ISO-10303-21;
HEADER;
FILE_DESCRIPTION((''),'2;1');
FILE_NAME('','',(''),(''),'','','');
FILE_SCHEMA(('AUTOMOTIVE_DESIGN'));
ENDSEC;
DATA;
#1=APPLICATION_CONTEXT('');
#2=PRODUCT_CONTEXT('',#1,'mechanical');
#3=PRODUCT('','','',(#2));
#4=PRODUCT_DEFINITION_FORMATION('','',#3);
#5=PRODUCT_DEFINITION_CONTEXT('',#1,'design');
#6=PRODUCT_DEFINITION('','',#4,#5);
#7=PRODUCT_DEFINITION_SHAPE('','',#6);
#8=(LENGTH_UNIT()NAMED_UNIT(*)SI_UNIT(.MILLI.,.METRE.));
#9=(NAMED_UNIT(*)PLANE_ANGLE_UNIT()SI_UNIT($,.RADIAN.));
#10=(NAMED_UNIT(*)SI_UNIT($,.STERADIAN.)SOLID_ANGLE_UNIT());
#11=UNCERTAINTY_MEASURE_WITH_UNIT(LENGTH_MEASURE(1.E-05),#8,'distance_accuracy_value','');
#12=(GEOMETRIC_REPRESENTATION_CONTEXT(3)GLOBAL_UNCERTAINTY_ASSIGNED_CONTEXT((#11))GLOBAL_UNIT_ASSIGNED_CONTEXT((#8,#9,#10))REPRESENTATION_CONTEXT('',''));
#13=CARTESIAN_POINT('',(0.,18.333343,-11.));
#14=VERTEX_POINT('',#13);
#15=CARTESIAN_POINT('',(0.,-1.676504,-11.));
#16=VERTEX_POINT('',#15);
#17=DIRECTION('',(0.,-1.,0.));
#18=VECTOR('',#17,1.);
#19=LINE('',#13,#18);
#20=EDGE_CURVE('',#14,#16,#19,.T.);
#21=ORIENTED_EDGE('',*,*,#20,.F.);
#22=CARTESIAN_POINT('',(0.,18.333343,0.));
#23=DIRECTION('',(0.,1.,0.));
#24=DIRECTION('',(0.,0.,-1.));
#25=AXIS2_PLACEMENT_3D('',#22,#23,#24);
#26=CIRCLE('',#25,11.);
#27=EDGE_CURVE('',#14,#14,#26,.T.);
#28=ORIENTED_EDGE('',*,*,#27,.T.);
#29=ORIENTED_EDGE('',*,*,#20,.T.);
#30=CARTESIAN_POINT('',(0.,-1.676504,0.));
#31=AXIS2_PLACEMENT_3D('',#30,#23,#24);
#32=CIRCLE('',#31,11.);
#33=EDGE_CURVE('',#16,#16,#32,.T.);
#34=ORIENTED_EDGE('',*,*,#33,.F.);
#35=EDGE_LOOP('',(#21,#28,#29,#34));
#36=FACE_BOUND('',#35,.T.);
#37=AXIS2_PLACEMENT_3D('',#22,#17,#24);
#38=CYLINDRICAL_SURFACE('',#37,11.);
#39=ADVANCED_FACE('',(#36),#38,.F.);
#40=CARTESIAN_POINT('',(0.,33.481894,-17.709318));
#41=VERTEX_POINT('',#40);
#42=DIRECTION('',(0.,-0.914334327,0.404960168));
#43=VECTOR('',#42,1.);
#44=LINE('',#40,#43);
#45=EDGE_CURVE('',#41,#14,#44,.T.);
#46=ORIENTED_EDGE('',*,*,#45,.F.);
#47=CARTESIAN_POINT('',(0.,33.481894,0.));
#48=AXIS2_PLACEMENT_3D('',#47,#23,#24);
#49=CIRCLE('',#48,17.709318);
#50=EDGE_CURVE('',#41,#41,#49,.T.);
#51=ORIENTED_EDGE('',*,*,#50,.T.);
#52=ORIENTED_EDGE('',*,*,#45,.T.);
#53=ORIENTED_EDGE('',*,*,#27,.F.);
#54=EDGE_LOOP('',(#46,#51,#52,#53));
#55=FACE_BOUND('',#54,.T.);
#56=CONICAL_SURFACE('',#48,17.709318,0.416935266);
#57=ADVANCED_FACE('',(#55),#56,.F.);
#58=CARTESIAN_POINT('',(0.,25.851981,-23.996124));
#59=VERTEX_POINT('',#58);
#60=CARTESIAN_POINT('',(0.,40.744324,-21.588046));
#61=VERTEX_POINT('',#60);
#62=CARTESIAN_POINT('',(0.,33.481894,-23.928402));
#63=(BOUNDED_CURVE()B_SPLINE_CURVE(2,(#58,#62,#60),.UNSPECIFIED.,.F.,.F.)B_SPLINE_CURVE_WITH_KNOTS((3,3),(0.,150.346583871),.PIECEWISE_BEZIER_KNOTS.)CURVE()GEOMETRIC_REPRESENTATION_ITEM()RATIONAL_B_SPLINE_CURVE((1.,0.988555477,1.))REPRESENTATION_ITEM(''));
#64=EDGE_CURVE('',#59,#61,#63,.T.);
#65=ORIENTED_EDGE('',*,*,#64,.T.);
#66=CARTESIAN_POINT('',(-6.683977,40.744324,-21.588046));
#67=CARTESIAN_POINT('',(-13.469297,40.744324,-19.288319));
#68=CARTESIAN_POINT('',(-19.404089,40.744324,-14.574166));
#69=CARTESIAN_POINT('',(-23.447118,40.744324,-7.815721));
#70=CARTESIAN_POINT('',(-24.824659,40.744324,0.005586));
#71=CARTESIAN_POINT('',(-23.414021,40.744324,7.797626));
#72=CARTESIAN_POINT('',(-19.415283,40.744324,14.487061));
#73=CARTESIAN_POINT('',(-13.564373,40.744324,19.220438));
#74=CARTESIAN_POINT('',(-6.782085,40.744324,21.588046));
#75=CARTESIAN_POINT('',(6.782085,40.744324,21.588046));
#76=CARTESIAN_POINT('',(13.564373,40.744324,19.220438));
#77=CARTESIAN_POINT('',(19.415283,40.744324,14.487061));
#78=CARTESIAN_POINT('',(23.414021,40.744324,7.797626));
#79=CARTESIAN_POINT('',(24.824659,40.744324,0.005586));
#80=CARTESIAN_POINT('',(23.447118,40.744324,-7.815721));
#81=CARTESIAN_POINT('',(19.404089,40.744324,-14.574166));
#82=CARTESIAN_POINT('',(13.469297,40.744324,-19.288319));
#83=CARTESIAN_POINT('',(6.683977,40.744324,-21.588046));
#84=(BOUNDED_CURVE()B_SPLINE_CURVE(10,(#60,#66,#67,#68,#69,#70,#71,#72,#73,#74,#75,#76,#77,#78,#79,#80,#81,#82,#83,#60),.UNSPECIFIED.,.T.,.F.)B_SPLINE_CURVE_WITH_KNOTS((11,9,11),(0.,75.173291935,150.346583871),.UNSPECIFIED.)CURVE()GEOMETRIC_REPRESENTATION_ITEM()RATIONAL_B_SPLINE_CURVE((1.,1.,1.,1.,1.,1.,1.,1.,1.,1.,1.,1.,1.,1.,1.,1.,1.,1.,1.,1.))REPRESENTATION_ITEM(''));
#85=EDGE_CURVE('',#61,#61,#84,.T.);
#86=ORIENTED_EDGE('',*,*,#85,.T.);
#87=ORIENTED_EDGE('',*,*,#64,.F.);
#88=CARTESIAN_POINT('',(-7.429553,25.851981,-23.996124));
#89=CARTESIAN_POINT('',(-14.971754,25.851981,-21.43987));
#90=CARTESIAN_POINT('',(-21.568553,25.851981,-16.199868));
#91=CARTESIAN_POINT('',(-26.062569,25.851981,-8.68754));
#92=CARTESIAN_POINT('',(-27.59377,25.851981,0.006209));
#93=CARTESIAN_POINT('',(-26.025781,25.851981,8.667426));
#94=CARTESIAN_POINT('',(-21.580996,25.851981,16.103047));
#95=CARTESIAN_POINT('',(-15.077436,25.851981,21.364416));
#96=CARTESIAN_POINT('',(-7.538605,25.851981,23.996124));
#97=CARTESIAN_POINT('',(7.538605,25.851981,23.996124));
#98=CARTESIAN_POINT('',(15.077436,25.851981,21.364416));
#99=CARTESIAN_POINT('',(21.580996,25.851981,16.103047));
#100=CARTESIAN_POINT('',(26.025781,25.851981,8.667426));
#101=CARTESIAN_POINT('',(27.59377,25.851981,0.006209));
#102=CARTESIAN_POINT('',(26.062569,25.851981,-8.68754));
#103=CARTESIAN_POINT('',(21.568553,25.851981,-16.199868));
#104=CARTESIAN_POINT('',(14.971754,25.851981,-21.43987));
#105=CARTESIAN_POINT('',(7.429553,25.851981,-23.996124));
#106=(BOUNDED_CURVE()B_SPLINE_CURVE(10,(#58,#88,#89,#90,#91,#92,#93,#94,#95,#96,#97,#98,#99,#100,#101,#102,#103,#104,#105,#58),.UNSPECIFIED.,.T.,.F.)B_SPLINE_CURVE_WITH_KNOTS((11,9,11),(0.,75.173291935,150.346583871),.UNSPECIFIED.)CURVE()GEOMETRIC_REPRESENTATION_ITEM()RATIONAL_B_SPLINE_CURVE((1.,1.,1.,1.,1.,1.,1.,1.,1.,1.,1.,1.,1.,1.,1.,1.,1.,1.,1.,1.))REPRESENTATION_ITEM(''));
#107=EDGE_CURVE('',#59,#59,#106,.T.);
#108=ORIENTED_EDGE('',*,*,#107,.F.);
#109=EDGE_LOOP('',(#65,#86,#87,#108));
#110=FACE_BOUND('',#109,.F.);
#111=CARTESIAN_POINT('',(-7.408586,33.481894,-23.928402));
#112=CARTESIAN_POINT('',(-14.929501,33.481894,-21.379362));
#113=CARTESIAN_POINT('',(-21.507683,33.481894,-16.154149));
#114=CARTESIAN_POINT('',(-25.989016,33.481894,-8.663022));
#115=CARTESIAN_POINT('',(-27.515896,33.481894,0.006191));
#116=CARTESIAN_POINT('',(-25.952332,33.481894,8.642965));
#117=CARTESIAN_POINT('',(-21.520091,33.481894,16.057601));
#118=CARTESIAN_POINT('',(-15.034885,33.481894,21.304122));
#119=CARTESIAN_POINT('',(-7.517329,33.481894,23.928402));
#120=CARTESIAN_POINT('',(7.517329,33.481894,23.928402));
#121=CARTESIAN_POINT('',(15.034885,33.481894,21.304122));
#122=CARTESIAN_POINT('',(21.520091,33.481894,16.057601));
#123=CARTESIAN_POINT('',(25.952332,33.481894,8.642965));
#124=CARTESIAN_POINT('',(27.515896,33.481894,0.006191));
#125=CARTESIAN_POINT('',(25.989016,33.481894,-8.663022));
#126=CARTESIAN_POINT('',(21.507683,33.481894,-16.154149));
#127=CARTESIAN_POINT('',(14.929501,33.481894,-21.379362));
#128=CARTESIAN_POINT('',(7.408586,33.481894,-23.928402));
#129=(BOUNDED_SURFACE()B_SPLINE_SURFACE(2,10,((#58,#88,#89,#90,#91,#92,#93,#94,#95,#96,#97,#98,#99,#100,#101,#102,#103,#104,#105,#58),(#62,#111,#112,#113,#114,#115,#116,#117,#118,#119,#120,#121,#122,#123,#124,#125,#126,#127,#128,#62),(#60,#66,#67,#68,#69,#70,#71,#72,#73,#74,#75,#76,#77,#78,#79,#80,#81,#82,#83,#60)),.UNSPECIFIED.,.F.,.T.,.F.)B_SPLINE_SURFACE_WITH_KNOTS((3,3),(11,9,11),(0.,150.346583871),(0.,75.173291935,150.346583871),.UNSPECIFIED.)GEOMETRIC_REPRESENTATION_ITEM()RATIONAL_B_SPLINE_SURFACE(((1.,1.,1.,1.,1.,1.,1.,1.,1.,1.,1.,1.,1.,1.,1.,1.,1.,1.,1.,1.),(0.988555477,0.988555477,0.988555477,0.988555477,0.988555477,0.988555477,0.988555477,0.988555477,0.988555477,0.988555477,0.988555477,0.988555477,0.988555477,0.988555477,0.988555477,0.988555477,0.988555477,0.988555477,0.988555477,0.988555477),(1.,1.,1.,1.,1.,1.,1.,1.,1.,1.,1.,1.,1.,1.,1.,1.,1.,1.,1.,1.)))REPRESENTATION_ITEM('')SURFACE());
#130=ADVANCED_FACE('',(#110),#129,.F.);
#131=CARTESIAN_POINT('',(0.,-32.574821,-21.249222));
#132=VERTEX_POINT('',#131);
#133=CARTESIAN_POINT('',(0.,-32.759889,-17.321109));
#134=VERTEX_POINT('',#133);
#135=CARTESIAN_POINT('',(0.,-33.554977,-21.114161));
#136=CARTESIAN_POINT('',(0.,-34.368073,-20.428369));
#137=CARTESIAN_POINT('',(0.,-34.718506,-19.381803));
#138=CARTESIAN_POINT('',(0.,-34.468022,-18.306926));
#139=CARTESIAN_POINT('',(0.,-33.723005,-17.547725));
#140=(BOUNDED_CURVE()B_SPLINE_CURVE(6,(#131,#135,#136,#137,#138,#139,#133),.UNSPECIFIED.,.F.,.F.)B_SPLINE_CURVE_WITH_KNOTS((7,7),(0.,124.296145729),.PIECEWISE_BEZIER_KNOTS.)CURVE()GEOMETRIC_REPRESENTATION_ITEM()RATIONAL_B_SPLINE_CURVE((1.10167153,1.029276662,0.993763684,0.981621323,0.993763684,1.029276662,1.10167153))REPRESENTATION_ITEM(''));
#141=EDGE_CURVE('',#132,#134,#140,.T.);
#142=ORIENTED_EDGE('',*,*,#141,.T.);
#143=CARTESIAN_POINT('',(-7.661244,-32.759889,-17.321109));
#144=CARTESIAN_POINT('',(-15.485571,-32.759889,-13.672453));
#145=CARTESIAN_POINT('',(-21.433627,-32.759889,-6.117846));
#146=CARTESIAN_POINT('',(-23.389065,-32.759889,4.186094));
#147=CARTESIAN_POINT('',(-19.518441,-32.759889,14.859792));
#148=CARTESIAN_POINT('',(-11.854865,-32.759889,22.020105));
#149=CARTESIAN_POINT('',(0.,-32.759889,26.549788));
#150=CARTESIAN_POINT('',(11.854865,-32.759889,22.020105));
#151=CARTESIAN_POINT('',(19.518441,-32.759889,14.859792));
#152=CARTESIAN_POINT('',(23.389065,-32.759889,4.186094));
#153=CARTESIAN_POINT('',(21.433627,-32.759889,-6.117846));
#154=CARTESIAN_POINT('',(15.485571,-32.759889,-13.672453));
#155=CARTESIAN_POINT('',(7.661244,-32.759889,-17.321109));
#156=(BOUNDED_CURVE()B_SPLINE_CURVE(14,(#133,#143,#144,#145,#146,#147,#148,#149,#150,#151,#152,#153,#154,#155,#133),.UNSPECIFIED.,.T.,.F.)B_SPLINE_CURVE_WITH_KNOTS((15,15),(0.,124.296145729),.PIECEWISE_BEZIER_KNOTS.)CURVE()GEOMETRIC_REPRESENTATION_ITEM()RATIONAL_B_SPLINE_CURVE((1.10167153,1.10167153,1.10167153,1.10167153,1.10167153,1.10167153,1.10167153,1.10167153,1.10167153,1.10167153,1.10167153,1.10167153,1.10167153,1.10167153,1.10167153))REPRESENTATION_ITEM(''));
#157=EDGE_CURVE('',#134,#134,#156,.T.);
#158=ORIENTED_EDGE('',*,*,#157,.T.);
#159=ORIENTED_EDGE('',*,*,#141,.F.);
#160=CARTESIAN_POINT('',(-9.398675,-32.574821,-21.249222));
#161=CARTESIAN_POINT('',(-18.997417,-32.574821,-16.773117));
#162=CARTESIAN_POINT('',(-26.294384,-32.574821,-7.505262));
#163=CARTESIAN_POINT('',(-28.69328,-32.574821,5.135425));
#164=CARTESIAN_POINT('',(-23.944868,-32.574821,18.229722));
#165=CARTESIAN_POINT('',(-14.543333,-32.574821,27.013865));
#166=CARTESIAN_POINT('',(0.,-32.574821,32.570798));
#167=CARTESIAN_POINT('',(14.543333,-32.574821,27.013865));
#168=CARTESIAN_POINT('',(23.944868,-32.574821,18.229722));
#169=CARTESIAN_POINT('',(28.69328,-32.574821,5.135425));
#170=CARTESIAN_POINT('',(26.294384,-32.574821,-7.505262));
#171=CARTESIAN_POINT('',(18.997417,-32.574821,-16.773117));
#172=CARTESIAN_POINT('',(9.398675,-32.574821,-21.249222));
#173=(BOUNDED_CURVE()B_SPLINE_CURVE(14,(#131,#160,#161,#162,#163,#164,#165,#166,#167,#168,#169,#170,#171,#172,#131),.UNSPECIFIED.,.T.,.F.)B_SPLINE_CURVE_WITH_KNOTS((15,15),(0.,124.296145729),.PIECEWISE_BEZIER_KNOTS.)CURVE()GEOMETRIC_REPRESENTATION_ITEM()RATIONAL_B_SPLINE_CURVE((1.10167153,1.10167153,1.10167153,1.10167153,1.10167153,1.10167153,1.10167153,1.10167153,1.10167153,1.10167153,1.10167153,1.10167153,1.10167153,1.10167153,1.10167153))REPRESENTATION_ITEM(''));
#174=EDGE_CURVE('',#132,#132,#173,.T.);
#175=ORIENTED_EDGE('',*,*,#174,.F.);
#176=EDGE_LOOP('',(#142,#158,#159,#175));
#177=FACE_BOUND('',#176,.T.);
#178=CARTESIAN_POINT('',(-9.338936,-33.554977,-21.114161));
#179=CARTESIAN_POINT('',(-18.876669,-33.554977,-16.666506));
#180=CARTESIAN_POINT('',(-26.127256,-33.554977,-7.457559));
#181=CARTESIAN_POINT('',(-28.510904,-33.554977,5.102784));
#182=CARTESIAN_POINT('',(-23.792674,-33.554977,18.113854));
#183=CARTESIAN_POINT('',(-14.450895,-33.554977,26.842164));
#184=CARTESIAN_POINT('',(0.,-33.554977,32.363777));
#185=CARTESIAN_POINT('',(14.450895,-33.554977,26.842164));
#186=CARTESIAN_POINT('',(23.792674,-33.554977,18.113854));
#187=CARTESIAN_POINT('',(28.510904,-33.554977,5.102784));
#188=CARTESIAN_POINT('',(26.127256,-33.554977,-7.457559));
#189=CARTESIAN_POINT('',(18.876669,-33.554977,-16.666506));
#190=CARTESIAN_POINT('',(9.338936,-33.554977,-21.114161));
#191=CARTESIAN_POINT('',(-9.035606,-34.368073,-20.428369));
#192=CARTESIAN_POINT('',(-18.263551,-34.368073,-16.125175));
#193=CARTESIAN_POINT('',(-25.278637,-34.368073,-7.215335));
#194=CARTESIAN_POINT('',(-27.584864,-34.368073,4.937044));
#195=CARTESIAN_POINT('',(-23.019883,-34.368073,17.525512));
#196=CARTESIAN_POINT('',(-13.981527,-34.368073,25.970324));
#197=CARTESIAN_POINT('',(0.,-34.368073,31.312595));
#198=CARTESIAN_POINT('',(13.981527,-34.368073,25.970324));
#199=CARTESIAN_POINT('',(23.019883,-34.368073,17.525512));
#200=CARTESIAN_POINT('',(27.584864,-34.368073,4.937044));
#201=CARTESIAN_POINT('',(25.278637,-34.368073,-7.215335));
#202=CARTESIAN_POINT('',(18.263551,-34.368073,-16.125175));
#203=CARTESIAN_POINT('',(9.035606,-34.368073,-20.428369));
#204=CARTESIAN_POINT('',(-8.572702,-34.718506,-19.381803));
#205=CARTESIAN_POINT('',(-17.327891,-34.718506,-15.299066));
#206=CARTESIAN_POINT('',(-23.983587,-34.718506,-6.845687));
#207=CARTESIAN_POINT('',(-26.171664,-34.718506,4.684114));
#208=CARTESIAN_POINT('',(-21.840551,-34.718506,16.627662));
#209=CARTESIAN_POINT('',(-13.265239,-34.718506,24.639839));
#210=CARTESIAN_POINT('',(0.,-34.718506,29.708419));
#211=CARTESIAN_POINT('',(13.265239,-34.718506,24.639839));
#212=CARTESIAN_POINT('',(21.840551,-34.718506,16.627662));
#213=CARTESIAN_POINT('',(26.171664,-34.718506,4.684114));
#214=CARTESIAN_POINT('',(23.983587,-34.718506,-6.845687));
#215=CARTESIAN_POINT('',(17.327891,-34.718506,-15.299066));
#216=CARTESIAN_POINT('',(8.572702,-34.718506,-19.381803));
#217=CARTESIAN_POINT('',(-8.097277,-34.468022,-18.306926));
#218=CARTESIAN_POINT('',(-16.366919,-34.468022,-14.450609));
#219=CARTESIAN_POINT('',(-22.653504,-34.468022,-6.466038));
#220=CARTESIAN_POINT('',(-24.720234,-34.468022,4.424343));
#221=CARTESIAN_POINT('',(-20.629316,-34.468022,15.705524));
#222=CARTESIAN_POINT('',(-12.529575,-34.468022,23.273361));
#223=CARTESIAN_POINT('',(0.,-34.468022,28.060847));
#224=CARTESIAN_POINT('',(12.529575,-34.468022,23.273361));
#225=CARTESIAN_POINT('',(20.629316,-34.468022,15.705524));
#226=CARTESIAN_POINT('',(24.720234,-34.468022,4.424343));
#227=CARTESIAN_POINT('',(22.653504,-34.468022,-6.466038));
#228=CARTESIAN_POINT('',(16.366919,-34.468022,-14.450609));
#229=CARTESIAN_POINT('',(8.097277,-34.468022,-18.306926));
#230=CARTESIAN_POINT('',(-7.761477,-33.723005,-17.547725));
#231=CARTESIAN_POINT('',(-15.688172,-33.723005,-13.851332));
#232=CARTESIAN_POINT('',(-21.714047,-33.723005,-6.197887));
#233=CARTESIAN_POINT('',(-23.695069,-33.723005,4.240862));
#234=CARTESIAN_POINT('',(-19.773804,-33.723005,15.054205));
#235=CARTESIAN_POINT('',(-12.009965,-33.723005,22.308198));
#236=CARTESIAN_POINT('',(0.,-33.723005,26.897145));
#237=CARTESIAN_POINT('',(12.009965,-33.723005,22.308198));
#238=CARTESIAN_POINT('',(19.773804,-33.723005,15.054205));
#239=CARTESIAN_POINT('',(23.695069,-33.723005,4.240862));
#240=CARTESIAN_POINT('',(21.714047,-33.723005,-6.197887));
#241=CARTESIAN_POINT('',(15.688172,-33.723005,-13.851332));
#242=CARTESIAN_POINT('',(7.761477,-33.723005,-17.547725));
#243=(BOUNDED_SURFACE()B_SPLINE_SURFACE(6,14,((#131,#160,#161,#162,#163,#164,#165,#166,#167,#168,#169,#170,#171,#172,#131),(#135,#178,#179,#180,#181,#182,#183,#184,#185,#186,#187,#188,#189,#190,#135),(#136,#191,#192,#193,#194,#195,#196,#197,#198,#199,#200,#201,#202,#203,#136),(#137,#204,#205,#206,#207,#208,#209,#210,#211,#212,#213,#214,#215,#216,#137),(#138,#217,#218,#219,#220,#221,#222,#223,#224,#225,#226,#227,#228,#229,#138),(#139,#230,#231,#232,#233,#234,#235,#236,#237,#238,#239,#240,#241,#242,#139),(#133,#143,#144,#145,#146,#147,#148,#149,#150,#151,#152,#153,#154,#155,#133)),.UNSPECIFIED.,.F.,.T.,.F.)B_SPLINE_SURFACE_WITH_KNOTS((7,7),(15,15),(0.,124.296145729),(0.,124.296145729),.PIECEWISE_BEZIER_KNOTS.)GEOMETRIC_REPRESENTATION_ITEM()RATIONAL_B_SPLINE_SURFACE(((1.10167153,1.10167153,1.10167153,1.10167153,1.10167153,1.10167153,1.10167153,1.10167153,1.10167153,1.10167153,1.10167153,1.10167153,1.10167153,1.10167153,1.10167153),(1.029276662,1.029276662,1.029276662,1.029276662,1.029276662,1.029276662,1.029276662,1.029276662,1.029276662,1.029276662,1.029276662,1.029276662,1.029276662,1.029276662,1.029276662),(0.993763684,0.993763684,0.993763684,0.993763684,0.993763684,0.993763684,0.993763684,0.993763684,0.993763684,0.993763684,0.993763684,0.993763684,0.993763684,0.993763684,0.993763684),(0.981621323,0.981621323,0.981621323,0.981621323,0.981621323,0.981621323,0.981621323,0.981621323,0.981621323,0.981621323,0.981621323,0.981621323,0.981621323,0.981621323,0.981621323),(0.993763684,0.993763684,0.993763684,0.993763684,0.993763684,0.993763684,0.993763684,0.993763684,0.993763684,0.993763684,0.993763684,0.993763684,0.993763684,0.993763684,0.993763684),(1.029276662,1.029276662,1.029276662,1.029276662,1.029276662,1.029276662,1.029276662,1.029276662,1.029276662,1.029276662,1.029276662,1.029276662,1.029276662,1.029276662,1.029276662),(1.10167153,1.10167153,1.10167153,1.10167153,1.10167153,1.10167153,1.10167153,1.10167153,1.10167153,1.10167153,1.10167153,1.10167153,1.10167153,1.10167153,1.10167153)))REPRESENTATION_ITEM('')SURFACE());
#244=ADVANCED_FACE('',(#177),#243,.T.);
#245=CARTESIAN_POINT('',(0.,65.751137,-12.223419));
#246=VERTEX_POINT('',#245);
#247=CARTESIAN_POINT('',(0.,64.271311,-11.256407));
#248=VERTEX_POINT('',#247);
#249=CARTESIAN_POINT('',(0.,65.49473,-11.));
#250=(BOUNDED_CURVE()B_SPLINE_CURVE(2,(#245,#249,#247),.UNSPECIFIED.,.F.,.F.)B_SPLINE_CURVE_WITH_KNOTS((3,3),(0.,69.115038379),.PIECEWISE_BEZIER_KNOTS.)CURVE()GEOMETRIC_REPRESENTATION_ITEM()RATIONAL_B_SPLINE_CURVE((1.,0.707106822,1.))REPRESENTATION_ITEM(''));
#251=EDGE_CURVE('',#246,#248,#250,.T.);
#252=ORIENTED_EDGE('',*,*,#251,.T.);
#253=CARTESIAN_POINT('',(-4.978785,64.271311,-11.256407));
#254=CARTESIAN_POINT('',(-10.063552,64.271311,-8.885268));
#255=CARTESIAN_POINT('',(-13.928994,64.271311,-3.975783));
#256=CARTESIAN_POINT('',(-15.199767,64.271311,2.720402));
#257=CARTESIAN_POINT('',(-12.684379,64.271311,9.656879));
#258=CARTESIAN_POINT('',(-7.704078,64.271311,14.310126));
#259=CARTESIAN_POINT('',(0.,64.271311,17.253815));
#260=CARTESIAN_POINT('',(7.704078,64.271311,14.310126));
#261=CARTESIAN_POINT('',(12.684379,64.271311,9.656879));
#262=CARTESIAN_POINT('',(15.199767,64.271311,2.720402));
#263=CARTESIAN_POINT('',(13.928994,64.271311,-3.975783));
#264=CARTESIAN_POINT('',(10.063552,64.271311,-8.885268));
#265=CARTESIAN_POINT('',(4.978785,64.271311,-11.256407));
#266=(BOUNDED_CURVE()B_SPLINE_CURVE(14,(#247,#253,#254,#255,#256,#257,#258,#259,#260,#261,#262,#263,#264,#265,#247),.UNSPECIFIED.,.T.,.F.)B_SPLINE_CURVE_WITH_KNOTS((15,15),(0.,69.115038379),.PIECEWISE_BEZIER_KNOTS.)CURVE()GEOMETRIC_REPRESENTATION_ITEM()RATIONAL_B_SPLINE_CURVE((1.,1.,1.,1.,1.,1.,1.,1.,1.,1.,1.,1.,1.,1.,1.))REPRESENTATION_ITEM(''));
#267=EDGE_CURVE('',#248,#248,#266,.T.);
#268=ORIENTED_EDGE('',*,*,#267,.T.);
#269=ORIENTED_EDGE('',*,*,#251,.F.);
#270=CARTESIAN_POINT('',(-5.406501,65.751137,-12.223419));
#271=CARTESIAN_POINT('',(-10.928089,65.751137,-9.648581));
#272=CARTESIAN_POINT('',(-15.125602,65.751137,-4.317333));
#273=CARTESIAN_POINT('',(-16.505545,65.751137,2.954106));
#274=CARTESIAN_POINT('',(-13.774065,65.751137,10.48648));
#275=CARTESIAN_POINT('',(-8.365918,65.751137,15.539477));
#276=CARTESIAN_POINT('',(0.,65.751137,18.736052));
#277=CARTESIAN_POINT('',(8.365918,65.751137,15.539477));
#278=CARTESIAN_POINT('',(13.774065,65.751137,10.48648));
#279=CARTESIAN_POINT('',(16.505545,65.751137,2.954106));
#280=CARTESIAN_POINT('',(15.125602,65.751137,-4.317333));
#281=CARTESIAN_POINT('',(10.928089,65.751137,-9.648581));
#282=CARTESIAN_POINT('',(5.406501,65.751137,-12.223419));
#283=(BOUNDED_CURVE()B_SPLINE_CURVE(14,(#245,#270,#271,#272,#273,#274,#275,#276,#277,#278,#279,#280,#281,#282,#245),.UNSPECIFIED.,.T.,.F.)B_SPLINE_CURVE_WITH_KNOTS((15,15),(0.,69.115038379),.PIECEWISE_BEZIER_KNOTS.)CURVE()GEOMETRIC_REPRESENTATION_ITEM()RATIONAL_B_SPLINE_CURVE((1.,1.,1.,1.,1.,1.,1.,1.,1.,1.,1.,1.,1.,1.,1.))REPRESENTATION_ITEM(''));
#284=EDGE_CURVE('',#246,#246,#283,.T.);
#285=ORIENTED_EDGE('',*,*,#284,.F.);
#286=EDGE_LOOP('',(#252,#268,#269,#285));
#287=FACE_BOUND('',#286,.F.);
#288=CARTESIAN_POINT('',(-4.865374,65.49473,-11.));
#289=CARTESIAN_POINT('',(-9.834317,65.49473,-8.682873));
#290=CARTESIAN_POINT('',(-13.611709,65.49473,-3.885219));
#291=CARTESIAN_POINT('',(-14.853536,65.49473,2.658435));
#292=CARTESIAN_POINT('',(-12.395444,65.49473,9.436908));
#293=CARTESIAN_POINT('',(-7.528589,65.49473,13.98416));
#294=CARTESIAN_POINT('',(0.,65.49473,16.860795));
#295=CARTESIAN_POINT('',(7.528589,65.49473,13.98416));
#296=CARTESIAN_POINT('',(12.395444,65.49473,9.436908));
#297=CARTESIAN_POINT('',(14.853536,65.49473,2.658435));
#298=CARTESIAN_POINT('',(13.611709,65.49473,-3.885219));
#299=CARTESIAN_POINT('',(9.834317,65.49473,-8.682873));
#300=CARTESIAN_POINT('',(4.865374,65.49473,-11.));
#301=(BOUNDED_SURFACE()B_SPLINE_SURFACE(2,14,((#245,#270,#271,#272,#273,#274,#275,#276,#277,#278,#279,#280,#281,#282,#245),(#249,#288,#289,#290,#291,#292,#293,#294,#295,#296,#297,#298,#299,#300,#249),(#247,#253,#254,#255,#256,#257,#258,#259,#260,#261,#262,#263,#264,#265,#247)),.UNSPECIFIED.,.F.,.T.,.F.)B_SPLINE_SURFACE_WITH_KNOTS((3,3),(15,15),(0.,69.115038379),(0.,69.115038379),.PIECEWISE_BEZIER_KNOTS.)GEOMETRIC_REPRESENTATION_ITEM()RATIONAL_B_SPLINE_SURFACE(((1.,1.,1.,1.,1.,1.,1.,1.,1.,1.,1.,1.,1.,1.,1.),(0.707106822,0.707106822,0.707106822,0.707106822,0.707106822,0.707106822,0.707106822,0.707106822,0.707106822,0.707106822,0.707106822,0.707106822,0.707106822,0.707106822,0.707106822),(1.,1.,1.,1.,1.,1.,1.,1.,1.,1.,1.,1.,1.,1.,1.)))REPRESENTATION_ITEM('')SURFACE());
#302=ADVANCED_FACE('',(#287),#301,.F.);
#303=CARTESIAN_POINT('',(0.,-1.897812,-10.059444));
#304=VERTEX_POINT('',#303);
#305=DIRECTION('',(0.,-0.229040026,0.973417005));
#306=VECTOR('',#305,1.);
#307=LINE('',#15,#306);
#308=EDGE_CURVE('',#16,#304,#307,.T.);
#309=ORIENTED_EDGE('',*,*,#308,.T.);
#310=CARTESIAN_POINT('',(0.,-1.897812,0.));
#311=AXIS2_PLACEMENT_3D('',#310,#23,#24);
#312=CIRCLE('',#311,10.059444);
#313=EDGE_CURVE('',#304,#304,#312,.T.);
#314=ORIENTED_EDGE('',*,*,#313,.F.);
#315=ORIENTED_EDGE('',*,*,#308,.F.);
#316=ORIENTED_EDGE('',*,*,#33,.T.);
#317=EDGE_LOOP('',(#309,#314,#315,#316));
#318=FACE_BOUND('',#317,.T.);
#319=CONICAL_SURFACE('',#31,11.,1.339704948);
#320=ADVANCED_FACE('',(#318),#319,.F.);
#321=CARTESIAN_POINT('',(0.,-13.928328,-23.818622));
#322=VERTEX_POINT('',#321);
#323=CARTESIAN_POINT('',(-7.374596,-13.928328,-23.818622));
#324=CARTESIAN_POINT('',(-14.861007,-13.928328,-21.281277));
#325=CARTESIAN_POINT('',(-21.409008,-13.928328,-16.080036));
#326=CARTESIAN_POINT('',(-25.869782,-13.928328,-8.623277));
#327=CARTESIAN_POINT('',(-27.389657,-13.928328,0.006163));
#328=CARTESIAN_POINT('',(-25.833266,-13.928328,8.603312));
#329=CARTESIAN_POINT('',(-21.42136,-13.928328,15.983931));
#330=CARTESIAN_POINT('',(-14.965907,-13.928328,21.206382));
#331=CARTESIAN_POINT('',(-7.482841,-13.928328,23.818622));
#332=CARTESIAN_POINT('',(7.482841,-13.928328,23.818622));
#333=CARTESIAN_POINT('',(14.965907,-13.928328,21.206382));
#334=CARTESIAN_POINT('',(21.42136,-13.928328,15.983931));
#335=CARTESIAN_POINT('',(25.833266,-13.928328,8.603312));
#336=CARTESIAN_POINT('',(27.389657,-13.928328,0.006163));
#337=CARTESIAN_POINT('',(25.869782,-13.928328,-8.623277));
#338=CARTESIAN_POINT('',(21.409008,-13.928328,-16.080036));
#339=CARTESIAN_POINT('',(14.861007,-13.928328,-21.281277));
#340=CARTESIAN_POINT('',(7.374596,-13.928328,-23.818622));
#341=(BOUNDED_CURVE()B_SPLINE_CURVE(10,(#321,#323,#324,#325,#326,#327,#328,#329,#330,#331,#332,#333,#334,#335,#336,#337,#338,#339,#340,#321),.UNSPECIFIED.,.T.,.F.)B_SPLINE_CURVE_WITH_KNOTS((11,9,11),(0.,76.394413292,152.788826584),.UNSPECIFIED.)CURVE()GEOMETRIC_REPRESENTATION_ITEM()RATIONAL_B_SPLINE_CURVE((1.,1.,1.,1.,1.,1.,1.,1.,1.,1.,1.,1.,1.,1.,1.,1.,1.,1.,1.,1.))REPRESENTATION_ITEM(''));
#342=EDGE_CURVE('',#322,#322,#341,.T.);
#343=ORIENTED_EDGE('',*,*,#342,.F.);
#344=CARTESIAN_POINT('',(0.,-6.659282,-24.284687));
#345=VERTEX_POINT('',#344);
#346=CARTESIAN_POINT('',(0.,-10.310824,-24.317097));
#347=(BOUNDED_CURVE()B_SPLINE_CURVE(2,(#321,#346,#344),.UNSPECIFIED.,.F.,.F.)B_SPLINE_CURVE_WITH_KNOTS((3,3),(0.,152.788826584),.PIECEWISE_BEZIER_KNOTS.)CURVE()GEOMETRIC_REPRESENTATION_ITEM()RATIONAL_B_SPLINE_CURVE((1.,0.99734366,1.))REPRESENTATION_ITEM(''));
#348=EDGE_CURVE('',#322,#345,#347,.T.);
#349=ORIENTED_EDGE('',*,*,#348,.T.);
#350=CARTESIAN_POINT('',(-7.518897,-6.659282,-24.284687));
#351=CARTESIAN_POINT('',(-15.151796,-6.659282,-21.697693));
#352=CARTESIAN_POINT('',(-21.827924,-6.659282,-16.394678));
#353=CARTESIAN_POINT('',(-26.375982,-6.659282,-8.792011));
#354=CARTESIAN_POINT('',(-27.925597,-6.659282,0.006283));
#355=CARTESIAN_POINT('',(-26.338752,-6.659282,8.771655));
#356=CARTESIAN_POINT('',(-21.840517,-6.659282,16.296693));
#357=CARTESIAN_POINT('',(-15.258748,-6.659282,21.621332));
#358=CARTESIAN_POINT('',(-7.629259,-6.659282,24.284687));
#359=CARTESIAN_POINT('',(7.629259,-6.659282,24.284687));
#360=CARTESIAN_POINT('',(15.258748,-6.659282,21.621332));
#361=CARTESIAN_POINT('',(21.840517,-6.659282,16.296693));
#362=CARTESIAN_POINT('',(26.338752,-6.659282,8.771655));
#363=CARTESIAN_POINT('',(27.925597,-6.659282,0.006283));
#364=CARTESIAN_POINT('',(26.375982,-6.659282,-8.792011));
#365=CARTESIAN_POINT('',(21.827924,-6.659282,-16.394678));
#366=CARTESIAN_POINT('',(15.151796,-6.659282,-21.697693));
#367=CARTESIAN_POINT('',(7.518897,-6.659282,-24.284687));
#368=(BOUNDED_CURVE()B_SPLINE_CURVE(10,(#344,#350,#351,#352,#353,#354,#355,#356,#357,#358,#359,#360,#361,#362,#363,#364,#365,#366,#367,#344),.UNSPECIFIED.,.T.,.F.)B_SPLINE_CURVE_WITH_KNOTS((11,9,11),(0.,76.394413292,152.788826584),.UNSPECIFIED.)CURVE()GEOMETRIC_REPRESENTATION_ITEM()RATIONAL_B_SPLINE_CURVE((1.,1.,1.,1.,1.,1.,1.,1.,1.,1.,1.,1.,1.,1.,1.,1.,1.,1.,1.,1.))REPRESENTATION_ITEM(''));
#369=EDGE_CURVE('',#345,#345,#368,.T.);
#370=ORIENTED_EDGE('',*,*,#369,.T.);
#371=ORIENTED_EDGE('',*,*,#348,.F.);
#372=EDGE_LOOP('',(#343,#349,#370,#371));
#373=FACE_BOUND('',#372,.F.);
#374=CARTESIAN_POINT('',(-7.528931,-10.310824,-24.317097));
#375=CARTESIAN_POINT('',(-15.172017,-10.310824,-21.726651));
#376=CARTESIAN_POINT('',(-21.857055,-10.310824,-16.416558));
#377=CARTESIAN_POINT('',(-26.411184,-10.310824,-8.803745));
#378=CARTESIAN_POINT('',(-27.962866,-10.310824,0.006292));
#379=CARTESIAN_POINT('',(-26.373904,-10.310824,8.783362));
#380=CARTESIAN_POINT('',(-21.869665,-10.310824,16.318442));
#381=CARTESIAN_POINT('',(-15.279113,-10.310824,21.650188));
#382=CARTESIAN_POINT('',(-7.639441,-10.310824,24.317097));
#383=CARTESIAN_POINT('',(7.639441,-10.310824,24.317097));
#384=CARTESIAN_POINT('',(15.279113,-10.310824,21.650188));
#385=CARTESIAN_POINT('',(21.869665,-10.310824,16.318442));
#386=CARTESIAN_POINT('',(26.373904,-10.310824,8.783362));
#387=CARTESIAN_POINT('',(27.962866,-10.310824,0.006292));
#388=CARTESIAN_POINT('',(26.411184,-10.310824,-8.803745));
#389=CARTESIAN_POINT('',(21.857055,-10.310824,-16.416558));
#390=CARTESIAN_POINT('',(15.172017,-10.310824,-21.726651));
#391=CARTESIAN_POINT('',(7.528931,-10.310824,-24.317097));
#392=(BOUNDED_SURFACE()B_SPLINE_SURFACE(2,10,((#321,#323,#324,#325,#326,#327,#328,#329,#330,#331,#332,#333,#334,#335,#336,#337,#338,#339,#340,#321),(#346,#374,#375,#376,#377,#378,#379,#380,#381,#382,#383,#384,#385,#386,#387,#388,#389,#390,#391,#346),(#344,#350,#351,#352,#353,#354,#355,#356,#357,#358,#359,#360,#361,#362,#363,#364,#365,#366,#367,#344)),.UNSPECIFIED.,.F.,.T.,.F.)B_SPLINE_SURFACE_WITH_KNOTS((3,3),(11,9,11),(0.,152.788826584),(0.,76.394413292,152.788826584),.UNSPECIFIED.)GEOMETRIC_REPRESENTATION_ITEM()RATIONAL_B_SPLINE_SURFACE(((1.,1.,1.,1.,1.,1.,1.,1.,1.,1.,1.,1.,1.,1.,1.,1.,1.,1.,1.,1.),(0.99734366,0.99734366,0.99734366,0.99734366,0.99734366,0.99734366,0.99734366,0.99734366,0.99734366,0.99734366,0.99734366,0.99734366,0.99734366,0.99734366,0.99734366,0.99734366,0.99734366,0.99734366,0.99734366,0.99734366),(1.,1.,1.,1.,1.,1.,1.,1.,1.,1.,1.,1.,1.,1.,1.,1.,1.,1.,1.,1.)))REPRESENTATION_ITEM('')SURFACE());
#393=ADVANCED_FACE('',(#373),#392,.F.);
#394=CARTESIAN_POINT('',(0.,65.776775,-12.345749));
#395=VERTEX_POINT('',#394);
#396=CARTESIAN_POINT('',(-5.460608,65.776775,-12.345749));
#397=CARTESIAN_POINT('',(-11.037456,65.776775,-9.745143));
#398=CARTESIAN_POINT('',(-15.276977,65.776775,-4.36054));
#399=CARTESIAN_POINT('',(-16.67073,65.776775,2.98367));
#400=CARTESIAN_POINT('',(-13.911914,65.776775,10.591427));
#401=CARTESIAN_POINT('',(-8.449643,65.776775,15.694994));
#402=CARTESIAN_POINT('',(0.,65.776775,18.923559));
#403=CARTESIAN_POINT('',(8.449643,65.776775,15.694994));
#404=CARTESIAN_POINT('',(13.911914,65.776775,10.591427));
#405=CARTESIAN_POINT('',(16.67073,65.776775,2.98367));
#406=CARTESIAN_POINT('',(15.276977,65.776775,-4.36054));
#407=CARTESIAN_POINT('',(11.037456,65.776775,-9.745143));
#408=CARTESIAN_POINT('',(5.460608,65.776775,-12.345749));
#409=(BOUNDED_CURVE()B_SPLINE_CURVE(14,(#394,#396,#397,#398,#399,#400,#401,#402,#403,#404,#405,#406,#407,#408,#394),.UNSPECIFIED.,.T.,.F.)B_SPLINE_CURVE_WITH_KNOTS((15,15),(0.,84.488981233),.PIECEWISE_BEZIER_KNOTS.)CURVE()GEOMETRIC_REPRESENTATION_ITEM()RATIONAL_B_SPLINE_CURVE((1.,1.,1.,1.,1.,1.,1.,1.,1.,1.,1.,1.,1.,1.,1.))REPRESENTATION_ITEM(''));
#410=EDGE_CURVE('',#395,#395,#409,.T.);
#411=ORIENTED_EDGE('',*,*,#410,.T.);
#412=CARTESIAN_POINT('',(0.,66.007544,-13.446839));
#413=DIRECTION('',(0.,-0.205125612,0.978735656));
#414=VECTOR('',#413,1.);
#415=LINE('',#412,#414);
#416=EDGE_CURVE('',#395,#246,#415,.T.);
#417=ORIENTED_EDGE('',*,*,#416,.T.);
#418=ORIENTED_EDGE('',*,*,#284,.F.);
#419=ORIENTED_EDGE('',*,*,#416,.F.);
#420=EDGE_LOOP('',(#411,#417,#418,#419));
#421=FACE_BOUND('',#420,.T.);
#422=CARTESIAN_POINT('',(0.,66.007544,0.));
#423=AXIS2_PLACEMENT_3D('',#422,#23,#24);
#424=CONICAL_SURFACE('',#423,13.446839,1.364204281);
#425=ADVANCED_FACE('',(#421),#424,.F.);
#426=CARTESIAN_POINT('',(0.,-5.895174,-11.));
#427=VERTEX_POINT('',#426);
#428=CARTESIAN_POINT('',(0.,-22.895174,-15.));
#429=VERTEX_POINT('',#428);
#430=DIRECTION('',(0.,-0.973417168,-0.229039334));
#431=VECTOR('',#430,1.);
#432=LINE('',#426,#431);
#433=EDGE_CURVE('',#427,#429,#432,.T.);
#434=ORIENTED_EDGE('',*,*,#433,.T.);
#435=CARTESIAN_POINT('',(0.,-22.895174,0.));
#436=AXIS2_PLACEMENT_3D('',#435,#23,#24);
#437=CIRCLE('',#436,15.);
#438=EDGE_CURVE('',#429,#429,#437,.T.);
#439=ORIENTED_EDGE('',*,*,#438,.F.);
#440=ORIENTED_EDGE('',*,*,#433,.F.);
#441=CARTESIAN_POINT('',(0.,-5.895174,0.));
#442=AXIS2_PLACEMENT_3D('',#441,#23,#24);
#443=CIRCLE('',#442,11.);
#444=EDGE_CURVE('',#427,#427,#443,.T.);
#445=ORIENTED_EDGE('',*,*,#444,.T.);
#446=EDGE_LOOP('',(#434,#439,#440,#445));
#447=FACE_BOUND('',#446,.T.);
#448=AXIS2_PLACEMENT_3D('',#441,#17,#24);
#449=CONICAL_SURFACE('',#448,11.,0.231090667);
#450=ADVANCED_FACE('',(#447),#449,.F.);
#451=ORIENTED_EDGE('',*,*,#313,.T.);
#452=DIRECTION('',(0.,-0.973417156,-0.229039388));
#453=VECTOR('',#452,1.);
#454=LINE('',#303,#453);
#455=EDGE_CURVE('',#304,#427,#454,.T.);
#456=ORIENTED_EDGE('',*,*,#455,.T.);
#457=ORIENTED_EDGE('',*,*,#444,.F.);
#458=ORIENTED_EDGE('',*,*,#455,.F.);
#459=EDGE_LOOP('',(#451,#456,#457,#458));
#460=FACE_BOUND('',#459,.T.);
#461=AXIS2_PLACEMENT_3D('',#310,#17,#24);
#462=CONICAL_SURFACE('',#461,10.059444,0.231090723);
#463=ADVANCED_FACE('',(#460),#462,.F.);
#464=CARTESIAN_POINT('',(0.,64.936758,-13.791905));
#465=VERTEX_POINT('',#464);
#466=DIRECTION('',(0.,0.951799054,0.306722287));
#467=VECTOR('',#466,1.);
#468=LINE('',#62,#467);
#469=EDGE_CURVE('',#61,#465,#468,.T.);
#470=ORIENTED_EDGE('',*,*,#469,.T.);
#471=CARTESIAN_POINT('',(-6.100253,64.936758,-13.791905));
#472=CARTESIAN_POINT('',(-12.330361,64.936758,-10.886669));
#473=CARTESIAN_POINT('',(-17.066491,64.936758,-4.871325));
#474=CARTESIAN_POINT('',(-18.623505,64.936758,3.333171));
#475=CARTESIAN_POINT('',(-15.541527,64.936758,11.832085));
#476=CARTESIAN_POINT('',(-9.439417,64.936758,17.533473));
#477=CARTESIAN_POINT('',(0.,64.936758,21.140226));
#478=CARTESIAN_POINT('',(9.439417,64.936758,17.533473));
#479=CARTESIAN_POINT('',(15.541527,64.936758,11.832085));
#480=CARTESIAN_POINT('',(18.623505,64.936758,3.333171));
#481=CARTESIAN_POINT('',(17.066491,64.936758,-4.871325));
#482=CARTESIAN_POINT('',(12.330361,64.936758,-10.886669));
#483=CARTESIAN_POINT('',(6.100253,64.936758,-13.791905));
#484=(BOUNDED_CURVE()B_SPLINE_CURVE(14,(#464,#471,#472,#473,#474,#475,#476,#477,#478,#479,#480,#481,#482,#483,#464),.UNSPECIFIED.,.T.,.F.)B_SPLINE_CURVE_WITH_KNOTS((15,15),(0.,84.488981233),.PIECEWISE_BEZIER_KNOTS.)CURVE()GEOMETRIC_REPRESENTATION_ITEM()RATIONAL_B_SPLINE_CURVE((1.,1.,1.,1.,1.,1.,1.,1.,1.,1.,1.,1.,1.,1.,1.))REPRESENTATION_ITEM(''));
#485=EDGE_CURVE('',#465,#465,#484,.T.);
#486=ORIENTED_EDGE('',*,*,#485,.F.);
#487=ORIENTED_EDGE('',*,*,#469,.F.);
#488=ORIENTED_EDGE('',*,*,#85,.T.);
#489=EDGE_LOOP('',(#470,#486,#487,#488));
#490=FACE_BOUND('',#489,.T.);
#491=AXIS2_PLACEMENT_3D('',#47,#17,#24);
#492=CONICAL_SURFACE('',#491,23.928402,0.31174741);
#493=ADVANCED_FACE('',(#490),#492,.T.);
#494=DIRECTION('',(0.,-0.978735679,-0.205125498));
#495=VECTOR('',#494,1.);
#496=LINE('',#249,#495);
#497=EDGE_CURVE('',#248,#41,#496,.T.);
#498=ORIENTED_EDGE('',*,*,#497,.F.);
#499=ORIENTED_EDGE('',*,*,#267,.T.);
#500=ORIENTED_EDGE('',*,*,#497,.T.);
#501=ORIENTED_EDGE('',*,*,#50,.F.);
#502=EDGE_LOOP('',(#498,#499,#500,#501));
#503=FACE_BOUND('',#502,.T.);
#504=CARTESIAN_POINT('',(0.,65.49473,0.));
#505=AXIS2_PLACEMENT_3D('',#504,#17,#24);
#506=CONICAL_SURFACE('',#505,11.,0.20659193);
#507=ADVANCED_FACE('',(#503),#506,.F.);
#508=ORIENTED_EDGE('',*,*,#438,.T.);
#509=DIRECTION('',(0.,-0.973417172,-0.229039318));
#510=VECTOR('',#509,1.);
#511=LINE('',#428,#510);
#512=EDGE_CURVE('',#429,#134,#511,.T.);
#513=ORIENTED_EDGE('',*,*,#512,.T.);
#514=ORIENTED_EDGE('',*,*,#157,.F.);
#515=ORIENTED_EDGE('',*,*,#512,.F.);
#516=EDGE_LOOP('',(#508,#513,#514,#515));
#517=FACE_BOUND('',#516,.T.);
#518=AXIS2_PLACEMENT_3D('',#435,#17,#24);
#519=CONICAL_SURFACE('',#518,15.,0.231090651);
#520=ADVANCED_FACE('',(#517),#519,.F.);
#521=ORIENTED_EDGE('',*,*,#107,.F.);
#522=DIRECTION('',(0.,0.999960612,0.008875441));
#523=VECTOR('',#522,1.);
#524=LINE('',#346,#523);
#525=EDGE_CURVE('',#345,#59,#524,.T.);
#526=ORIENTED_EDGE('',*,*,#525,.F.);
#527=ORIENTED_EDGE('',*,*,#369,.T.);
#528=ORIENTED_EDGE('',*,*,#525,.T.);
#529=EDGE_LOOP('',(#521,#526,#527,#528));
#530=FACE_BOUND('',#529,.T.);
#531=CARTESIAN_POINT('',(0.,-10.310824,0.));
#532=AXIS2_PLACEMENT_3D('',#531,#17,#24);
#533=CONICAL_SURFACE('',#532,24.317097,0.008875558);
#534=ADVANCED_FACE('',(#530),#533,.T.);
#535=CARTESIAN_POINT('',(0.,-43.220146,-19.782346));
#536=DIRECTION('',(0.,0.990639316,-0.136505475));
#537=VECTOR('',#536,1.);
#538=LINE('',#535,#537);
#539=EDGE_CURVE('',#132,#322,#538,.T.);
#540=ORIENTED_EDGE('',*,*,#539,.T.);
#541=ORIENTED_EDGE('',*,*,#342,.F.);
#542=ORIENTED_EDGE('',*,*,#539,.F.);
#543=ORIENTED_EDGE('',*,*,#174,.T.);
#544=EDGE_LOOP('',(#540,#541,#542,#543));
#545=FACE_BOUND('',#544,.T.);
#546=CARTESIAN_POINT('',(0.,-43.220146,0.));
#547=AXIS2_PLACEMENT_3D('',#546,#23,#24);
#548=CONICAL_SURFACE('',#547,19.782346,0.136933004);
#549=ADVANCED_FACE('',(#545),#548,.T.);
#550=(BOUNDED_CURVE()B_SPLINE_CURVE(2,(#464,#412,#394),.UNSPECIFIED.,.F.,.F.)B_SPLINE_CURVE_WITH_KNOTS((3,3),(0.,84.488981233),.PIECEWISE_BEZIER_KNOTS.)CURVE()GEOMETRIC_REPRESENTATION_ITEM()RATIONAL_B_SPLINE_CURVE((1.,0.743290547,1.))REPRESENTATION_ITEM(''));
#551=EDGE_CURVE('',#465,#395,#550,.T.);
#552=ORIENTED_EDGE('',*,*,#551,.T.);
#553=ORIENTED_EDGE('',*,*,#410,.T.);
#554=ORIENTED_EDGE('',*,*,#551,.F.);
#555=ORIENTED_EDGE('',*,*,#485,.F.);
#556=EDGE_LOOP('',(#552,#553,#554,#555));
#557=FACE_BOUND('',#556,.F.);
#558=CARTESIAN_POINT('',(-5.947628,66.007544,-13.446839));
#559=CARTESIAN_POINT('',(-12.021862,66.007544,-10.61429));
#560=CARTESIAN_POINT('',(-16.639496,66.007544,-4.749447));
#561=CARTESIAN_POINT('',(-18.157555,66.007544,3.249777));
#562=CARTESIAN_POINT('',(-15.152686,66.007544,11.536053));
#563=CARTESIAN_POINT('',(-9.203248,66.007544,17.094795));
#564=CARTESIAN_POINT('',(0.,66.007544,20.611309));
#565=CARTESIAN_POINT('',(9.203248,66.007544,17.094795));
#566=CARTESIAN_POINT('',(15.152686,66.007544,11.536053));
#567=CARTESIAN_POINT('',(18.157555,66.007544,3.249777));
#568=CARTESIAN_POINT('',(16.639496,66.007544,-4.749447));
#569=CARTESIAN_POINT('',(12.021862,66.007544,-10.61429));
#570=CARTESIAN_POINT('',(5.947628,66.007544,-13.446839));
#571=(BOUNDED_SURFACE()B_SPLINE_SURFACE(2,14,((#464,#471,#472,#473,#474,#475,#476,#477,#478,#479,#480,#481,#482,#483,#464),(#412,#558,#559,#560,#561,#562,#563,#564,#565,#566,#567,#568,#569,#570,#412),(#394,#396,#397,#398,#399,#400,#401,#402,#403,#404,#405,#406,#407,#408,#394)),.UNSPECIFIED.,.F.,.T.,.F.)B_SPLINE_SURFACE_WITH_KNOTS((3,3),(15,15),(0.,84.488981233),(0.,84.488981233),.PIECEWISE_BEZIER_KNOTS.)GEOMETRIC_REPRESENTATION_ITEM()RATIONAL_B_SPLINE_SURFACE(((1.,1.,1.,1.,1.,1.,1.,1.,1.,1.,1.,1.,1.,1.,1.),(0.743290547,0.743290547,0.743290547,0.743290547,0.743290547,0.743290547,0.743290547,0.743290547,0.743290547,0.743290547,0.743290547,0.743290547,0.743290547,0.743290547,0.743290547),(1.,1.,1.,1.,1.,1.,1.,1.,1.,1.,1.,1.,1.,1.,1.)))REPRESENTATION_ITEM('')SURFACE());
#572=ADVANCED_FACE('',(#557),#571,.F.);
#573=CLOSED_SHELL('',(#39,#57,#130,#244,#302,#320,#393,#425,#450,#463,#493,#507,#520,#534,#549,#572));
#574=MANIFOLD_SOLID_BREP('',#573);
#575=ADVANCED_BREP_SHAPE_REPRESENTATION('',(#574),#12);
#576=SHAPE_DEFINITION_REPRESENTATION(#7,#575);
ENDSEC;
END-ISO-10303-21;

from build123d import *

# Parameters (mm, degrees)
F2_R = 50
F3_R = 1.25
F4_R = 2


with BuildPart() as f1:
    # F0 (on Right) → F1 (revolve)
    with BuildSketch(Plane.YZ):
        Polygon((-22.895174, -15), (-43.220146, -19.782346), (-10.310824, -24.317097), (33.481894, -23.928402), (66.007544, -13.446839), (65.49473, -11), (33.481894, -17.709318), (18.333343, -11), (-1.676504, -11), (-5.895174, -11), align=None)
        Polygon((-1.897812, -10.059444), (-5.895174, -11), (-1.676504, -11), align=None)
    revolve(axis=Axis((0, 6.931687, 0), (0, 1, 0)))

    # F2
    f2_edges = [f1.edges().sort_by_distance(p)[0] for p in [
        (0, -10.310824, 24.317097),
        (0, 33.481894, 23.928402),
    ]]
    fillet(f2_edges, radius=F2_R)

    # F3
    f3_edges = [f1.edges().sort_by_distance(p)[0] for p in [
        (0, 66.007544, 13.446839),
        (0, 65.49473, 11),
        (0, 65.751137, -12.22342),
    ]]
    fillet(f3_edges, radius=F3_R)

    # F4
    f4_edges = [f1.edges().sort_by_distance(p)[0] for p in [
        (0, -43.220146, 19.782346),
    ]]
    fillet(f4_edges, radius=F4_R)


solid = f1.part
